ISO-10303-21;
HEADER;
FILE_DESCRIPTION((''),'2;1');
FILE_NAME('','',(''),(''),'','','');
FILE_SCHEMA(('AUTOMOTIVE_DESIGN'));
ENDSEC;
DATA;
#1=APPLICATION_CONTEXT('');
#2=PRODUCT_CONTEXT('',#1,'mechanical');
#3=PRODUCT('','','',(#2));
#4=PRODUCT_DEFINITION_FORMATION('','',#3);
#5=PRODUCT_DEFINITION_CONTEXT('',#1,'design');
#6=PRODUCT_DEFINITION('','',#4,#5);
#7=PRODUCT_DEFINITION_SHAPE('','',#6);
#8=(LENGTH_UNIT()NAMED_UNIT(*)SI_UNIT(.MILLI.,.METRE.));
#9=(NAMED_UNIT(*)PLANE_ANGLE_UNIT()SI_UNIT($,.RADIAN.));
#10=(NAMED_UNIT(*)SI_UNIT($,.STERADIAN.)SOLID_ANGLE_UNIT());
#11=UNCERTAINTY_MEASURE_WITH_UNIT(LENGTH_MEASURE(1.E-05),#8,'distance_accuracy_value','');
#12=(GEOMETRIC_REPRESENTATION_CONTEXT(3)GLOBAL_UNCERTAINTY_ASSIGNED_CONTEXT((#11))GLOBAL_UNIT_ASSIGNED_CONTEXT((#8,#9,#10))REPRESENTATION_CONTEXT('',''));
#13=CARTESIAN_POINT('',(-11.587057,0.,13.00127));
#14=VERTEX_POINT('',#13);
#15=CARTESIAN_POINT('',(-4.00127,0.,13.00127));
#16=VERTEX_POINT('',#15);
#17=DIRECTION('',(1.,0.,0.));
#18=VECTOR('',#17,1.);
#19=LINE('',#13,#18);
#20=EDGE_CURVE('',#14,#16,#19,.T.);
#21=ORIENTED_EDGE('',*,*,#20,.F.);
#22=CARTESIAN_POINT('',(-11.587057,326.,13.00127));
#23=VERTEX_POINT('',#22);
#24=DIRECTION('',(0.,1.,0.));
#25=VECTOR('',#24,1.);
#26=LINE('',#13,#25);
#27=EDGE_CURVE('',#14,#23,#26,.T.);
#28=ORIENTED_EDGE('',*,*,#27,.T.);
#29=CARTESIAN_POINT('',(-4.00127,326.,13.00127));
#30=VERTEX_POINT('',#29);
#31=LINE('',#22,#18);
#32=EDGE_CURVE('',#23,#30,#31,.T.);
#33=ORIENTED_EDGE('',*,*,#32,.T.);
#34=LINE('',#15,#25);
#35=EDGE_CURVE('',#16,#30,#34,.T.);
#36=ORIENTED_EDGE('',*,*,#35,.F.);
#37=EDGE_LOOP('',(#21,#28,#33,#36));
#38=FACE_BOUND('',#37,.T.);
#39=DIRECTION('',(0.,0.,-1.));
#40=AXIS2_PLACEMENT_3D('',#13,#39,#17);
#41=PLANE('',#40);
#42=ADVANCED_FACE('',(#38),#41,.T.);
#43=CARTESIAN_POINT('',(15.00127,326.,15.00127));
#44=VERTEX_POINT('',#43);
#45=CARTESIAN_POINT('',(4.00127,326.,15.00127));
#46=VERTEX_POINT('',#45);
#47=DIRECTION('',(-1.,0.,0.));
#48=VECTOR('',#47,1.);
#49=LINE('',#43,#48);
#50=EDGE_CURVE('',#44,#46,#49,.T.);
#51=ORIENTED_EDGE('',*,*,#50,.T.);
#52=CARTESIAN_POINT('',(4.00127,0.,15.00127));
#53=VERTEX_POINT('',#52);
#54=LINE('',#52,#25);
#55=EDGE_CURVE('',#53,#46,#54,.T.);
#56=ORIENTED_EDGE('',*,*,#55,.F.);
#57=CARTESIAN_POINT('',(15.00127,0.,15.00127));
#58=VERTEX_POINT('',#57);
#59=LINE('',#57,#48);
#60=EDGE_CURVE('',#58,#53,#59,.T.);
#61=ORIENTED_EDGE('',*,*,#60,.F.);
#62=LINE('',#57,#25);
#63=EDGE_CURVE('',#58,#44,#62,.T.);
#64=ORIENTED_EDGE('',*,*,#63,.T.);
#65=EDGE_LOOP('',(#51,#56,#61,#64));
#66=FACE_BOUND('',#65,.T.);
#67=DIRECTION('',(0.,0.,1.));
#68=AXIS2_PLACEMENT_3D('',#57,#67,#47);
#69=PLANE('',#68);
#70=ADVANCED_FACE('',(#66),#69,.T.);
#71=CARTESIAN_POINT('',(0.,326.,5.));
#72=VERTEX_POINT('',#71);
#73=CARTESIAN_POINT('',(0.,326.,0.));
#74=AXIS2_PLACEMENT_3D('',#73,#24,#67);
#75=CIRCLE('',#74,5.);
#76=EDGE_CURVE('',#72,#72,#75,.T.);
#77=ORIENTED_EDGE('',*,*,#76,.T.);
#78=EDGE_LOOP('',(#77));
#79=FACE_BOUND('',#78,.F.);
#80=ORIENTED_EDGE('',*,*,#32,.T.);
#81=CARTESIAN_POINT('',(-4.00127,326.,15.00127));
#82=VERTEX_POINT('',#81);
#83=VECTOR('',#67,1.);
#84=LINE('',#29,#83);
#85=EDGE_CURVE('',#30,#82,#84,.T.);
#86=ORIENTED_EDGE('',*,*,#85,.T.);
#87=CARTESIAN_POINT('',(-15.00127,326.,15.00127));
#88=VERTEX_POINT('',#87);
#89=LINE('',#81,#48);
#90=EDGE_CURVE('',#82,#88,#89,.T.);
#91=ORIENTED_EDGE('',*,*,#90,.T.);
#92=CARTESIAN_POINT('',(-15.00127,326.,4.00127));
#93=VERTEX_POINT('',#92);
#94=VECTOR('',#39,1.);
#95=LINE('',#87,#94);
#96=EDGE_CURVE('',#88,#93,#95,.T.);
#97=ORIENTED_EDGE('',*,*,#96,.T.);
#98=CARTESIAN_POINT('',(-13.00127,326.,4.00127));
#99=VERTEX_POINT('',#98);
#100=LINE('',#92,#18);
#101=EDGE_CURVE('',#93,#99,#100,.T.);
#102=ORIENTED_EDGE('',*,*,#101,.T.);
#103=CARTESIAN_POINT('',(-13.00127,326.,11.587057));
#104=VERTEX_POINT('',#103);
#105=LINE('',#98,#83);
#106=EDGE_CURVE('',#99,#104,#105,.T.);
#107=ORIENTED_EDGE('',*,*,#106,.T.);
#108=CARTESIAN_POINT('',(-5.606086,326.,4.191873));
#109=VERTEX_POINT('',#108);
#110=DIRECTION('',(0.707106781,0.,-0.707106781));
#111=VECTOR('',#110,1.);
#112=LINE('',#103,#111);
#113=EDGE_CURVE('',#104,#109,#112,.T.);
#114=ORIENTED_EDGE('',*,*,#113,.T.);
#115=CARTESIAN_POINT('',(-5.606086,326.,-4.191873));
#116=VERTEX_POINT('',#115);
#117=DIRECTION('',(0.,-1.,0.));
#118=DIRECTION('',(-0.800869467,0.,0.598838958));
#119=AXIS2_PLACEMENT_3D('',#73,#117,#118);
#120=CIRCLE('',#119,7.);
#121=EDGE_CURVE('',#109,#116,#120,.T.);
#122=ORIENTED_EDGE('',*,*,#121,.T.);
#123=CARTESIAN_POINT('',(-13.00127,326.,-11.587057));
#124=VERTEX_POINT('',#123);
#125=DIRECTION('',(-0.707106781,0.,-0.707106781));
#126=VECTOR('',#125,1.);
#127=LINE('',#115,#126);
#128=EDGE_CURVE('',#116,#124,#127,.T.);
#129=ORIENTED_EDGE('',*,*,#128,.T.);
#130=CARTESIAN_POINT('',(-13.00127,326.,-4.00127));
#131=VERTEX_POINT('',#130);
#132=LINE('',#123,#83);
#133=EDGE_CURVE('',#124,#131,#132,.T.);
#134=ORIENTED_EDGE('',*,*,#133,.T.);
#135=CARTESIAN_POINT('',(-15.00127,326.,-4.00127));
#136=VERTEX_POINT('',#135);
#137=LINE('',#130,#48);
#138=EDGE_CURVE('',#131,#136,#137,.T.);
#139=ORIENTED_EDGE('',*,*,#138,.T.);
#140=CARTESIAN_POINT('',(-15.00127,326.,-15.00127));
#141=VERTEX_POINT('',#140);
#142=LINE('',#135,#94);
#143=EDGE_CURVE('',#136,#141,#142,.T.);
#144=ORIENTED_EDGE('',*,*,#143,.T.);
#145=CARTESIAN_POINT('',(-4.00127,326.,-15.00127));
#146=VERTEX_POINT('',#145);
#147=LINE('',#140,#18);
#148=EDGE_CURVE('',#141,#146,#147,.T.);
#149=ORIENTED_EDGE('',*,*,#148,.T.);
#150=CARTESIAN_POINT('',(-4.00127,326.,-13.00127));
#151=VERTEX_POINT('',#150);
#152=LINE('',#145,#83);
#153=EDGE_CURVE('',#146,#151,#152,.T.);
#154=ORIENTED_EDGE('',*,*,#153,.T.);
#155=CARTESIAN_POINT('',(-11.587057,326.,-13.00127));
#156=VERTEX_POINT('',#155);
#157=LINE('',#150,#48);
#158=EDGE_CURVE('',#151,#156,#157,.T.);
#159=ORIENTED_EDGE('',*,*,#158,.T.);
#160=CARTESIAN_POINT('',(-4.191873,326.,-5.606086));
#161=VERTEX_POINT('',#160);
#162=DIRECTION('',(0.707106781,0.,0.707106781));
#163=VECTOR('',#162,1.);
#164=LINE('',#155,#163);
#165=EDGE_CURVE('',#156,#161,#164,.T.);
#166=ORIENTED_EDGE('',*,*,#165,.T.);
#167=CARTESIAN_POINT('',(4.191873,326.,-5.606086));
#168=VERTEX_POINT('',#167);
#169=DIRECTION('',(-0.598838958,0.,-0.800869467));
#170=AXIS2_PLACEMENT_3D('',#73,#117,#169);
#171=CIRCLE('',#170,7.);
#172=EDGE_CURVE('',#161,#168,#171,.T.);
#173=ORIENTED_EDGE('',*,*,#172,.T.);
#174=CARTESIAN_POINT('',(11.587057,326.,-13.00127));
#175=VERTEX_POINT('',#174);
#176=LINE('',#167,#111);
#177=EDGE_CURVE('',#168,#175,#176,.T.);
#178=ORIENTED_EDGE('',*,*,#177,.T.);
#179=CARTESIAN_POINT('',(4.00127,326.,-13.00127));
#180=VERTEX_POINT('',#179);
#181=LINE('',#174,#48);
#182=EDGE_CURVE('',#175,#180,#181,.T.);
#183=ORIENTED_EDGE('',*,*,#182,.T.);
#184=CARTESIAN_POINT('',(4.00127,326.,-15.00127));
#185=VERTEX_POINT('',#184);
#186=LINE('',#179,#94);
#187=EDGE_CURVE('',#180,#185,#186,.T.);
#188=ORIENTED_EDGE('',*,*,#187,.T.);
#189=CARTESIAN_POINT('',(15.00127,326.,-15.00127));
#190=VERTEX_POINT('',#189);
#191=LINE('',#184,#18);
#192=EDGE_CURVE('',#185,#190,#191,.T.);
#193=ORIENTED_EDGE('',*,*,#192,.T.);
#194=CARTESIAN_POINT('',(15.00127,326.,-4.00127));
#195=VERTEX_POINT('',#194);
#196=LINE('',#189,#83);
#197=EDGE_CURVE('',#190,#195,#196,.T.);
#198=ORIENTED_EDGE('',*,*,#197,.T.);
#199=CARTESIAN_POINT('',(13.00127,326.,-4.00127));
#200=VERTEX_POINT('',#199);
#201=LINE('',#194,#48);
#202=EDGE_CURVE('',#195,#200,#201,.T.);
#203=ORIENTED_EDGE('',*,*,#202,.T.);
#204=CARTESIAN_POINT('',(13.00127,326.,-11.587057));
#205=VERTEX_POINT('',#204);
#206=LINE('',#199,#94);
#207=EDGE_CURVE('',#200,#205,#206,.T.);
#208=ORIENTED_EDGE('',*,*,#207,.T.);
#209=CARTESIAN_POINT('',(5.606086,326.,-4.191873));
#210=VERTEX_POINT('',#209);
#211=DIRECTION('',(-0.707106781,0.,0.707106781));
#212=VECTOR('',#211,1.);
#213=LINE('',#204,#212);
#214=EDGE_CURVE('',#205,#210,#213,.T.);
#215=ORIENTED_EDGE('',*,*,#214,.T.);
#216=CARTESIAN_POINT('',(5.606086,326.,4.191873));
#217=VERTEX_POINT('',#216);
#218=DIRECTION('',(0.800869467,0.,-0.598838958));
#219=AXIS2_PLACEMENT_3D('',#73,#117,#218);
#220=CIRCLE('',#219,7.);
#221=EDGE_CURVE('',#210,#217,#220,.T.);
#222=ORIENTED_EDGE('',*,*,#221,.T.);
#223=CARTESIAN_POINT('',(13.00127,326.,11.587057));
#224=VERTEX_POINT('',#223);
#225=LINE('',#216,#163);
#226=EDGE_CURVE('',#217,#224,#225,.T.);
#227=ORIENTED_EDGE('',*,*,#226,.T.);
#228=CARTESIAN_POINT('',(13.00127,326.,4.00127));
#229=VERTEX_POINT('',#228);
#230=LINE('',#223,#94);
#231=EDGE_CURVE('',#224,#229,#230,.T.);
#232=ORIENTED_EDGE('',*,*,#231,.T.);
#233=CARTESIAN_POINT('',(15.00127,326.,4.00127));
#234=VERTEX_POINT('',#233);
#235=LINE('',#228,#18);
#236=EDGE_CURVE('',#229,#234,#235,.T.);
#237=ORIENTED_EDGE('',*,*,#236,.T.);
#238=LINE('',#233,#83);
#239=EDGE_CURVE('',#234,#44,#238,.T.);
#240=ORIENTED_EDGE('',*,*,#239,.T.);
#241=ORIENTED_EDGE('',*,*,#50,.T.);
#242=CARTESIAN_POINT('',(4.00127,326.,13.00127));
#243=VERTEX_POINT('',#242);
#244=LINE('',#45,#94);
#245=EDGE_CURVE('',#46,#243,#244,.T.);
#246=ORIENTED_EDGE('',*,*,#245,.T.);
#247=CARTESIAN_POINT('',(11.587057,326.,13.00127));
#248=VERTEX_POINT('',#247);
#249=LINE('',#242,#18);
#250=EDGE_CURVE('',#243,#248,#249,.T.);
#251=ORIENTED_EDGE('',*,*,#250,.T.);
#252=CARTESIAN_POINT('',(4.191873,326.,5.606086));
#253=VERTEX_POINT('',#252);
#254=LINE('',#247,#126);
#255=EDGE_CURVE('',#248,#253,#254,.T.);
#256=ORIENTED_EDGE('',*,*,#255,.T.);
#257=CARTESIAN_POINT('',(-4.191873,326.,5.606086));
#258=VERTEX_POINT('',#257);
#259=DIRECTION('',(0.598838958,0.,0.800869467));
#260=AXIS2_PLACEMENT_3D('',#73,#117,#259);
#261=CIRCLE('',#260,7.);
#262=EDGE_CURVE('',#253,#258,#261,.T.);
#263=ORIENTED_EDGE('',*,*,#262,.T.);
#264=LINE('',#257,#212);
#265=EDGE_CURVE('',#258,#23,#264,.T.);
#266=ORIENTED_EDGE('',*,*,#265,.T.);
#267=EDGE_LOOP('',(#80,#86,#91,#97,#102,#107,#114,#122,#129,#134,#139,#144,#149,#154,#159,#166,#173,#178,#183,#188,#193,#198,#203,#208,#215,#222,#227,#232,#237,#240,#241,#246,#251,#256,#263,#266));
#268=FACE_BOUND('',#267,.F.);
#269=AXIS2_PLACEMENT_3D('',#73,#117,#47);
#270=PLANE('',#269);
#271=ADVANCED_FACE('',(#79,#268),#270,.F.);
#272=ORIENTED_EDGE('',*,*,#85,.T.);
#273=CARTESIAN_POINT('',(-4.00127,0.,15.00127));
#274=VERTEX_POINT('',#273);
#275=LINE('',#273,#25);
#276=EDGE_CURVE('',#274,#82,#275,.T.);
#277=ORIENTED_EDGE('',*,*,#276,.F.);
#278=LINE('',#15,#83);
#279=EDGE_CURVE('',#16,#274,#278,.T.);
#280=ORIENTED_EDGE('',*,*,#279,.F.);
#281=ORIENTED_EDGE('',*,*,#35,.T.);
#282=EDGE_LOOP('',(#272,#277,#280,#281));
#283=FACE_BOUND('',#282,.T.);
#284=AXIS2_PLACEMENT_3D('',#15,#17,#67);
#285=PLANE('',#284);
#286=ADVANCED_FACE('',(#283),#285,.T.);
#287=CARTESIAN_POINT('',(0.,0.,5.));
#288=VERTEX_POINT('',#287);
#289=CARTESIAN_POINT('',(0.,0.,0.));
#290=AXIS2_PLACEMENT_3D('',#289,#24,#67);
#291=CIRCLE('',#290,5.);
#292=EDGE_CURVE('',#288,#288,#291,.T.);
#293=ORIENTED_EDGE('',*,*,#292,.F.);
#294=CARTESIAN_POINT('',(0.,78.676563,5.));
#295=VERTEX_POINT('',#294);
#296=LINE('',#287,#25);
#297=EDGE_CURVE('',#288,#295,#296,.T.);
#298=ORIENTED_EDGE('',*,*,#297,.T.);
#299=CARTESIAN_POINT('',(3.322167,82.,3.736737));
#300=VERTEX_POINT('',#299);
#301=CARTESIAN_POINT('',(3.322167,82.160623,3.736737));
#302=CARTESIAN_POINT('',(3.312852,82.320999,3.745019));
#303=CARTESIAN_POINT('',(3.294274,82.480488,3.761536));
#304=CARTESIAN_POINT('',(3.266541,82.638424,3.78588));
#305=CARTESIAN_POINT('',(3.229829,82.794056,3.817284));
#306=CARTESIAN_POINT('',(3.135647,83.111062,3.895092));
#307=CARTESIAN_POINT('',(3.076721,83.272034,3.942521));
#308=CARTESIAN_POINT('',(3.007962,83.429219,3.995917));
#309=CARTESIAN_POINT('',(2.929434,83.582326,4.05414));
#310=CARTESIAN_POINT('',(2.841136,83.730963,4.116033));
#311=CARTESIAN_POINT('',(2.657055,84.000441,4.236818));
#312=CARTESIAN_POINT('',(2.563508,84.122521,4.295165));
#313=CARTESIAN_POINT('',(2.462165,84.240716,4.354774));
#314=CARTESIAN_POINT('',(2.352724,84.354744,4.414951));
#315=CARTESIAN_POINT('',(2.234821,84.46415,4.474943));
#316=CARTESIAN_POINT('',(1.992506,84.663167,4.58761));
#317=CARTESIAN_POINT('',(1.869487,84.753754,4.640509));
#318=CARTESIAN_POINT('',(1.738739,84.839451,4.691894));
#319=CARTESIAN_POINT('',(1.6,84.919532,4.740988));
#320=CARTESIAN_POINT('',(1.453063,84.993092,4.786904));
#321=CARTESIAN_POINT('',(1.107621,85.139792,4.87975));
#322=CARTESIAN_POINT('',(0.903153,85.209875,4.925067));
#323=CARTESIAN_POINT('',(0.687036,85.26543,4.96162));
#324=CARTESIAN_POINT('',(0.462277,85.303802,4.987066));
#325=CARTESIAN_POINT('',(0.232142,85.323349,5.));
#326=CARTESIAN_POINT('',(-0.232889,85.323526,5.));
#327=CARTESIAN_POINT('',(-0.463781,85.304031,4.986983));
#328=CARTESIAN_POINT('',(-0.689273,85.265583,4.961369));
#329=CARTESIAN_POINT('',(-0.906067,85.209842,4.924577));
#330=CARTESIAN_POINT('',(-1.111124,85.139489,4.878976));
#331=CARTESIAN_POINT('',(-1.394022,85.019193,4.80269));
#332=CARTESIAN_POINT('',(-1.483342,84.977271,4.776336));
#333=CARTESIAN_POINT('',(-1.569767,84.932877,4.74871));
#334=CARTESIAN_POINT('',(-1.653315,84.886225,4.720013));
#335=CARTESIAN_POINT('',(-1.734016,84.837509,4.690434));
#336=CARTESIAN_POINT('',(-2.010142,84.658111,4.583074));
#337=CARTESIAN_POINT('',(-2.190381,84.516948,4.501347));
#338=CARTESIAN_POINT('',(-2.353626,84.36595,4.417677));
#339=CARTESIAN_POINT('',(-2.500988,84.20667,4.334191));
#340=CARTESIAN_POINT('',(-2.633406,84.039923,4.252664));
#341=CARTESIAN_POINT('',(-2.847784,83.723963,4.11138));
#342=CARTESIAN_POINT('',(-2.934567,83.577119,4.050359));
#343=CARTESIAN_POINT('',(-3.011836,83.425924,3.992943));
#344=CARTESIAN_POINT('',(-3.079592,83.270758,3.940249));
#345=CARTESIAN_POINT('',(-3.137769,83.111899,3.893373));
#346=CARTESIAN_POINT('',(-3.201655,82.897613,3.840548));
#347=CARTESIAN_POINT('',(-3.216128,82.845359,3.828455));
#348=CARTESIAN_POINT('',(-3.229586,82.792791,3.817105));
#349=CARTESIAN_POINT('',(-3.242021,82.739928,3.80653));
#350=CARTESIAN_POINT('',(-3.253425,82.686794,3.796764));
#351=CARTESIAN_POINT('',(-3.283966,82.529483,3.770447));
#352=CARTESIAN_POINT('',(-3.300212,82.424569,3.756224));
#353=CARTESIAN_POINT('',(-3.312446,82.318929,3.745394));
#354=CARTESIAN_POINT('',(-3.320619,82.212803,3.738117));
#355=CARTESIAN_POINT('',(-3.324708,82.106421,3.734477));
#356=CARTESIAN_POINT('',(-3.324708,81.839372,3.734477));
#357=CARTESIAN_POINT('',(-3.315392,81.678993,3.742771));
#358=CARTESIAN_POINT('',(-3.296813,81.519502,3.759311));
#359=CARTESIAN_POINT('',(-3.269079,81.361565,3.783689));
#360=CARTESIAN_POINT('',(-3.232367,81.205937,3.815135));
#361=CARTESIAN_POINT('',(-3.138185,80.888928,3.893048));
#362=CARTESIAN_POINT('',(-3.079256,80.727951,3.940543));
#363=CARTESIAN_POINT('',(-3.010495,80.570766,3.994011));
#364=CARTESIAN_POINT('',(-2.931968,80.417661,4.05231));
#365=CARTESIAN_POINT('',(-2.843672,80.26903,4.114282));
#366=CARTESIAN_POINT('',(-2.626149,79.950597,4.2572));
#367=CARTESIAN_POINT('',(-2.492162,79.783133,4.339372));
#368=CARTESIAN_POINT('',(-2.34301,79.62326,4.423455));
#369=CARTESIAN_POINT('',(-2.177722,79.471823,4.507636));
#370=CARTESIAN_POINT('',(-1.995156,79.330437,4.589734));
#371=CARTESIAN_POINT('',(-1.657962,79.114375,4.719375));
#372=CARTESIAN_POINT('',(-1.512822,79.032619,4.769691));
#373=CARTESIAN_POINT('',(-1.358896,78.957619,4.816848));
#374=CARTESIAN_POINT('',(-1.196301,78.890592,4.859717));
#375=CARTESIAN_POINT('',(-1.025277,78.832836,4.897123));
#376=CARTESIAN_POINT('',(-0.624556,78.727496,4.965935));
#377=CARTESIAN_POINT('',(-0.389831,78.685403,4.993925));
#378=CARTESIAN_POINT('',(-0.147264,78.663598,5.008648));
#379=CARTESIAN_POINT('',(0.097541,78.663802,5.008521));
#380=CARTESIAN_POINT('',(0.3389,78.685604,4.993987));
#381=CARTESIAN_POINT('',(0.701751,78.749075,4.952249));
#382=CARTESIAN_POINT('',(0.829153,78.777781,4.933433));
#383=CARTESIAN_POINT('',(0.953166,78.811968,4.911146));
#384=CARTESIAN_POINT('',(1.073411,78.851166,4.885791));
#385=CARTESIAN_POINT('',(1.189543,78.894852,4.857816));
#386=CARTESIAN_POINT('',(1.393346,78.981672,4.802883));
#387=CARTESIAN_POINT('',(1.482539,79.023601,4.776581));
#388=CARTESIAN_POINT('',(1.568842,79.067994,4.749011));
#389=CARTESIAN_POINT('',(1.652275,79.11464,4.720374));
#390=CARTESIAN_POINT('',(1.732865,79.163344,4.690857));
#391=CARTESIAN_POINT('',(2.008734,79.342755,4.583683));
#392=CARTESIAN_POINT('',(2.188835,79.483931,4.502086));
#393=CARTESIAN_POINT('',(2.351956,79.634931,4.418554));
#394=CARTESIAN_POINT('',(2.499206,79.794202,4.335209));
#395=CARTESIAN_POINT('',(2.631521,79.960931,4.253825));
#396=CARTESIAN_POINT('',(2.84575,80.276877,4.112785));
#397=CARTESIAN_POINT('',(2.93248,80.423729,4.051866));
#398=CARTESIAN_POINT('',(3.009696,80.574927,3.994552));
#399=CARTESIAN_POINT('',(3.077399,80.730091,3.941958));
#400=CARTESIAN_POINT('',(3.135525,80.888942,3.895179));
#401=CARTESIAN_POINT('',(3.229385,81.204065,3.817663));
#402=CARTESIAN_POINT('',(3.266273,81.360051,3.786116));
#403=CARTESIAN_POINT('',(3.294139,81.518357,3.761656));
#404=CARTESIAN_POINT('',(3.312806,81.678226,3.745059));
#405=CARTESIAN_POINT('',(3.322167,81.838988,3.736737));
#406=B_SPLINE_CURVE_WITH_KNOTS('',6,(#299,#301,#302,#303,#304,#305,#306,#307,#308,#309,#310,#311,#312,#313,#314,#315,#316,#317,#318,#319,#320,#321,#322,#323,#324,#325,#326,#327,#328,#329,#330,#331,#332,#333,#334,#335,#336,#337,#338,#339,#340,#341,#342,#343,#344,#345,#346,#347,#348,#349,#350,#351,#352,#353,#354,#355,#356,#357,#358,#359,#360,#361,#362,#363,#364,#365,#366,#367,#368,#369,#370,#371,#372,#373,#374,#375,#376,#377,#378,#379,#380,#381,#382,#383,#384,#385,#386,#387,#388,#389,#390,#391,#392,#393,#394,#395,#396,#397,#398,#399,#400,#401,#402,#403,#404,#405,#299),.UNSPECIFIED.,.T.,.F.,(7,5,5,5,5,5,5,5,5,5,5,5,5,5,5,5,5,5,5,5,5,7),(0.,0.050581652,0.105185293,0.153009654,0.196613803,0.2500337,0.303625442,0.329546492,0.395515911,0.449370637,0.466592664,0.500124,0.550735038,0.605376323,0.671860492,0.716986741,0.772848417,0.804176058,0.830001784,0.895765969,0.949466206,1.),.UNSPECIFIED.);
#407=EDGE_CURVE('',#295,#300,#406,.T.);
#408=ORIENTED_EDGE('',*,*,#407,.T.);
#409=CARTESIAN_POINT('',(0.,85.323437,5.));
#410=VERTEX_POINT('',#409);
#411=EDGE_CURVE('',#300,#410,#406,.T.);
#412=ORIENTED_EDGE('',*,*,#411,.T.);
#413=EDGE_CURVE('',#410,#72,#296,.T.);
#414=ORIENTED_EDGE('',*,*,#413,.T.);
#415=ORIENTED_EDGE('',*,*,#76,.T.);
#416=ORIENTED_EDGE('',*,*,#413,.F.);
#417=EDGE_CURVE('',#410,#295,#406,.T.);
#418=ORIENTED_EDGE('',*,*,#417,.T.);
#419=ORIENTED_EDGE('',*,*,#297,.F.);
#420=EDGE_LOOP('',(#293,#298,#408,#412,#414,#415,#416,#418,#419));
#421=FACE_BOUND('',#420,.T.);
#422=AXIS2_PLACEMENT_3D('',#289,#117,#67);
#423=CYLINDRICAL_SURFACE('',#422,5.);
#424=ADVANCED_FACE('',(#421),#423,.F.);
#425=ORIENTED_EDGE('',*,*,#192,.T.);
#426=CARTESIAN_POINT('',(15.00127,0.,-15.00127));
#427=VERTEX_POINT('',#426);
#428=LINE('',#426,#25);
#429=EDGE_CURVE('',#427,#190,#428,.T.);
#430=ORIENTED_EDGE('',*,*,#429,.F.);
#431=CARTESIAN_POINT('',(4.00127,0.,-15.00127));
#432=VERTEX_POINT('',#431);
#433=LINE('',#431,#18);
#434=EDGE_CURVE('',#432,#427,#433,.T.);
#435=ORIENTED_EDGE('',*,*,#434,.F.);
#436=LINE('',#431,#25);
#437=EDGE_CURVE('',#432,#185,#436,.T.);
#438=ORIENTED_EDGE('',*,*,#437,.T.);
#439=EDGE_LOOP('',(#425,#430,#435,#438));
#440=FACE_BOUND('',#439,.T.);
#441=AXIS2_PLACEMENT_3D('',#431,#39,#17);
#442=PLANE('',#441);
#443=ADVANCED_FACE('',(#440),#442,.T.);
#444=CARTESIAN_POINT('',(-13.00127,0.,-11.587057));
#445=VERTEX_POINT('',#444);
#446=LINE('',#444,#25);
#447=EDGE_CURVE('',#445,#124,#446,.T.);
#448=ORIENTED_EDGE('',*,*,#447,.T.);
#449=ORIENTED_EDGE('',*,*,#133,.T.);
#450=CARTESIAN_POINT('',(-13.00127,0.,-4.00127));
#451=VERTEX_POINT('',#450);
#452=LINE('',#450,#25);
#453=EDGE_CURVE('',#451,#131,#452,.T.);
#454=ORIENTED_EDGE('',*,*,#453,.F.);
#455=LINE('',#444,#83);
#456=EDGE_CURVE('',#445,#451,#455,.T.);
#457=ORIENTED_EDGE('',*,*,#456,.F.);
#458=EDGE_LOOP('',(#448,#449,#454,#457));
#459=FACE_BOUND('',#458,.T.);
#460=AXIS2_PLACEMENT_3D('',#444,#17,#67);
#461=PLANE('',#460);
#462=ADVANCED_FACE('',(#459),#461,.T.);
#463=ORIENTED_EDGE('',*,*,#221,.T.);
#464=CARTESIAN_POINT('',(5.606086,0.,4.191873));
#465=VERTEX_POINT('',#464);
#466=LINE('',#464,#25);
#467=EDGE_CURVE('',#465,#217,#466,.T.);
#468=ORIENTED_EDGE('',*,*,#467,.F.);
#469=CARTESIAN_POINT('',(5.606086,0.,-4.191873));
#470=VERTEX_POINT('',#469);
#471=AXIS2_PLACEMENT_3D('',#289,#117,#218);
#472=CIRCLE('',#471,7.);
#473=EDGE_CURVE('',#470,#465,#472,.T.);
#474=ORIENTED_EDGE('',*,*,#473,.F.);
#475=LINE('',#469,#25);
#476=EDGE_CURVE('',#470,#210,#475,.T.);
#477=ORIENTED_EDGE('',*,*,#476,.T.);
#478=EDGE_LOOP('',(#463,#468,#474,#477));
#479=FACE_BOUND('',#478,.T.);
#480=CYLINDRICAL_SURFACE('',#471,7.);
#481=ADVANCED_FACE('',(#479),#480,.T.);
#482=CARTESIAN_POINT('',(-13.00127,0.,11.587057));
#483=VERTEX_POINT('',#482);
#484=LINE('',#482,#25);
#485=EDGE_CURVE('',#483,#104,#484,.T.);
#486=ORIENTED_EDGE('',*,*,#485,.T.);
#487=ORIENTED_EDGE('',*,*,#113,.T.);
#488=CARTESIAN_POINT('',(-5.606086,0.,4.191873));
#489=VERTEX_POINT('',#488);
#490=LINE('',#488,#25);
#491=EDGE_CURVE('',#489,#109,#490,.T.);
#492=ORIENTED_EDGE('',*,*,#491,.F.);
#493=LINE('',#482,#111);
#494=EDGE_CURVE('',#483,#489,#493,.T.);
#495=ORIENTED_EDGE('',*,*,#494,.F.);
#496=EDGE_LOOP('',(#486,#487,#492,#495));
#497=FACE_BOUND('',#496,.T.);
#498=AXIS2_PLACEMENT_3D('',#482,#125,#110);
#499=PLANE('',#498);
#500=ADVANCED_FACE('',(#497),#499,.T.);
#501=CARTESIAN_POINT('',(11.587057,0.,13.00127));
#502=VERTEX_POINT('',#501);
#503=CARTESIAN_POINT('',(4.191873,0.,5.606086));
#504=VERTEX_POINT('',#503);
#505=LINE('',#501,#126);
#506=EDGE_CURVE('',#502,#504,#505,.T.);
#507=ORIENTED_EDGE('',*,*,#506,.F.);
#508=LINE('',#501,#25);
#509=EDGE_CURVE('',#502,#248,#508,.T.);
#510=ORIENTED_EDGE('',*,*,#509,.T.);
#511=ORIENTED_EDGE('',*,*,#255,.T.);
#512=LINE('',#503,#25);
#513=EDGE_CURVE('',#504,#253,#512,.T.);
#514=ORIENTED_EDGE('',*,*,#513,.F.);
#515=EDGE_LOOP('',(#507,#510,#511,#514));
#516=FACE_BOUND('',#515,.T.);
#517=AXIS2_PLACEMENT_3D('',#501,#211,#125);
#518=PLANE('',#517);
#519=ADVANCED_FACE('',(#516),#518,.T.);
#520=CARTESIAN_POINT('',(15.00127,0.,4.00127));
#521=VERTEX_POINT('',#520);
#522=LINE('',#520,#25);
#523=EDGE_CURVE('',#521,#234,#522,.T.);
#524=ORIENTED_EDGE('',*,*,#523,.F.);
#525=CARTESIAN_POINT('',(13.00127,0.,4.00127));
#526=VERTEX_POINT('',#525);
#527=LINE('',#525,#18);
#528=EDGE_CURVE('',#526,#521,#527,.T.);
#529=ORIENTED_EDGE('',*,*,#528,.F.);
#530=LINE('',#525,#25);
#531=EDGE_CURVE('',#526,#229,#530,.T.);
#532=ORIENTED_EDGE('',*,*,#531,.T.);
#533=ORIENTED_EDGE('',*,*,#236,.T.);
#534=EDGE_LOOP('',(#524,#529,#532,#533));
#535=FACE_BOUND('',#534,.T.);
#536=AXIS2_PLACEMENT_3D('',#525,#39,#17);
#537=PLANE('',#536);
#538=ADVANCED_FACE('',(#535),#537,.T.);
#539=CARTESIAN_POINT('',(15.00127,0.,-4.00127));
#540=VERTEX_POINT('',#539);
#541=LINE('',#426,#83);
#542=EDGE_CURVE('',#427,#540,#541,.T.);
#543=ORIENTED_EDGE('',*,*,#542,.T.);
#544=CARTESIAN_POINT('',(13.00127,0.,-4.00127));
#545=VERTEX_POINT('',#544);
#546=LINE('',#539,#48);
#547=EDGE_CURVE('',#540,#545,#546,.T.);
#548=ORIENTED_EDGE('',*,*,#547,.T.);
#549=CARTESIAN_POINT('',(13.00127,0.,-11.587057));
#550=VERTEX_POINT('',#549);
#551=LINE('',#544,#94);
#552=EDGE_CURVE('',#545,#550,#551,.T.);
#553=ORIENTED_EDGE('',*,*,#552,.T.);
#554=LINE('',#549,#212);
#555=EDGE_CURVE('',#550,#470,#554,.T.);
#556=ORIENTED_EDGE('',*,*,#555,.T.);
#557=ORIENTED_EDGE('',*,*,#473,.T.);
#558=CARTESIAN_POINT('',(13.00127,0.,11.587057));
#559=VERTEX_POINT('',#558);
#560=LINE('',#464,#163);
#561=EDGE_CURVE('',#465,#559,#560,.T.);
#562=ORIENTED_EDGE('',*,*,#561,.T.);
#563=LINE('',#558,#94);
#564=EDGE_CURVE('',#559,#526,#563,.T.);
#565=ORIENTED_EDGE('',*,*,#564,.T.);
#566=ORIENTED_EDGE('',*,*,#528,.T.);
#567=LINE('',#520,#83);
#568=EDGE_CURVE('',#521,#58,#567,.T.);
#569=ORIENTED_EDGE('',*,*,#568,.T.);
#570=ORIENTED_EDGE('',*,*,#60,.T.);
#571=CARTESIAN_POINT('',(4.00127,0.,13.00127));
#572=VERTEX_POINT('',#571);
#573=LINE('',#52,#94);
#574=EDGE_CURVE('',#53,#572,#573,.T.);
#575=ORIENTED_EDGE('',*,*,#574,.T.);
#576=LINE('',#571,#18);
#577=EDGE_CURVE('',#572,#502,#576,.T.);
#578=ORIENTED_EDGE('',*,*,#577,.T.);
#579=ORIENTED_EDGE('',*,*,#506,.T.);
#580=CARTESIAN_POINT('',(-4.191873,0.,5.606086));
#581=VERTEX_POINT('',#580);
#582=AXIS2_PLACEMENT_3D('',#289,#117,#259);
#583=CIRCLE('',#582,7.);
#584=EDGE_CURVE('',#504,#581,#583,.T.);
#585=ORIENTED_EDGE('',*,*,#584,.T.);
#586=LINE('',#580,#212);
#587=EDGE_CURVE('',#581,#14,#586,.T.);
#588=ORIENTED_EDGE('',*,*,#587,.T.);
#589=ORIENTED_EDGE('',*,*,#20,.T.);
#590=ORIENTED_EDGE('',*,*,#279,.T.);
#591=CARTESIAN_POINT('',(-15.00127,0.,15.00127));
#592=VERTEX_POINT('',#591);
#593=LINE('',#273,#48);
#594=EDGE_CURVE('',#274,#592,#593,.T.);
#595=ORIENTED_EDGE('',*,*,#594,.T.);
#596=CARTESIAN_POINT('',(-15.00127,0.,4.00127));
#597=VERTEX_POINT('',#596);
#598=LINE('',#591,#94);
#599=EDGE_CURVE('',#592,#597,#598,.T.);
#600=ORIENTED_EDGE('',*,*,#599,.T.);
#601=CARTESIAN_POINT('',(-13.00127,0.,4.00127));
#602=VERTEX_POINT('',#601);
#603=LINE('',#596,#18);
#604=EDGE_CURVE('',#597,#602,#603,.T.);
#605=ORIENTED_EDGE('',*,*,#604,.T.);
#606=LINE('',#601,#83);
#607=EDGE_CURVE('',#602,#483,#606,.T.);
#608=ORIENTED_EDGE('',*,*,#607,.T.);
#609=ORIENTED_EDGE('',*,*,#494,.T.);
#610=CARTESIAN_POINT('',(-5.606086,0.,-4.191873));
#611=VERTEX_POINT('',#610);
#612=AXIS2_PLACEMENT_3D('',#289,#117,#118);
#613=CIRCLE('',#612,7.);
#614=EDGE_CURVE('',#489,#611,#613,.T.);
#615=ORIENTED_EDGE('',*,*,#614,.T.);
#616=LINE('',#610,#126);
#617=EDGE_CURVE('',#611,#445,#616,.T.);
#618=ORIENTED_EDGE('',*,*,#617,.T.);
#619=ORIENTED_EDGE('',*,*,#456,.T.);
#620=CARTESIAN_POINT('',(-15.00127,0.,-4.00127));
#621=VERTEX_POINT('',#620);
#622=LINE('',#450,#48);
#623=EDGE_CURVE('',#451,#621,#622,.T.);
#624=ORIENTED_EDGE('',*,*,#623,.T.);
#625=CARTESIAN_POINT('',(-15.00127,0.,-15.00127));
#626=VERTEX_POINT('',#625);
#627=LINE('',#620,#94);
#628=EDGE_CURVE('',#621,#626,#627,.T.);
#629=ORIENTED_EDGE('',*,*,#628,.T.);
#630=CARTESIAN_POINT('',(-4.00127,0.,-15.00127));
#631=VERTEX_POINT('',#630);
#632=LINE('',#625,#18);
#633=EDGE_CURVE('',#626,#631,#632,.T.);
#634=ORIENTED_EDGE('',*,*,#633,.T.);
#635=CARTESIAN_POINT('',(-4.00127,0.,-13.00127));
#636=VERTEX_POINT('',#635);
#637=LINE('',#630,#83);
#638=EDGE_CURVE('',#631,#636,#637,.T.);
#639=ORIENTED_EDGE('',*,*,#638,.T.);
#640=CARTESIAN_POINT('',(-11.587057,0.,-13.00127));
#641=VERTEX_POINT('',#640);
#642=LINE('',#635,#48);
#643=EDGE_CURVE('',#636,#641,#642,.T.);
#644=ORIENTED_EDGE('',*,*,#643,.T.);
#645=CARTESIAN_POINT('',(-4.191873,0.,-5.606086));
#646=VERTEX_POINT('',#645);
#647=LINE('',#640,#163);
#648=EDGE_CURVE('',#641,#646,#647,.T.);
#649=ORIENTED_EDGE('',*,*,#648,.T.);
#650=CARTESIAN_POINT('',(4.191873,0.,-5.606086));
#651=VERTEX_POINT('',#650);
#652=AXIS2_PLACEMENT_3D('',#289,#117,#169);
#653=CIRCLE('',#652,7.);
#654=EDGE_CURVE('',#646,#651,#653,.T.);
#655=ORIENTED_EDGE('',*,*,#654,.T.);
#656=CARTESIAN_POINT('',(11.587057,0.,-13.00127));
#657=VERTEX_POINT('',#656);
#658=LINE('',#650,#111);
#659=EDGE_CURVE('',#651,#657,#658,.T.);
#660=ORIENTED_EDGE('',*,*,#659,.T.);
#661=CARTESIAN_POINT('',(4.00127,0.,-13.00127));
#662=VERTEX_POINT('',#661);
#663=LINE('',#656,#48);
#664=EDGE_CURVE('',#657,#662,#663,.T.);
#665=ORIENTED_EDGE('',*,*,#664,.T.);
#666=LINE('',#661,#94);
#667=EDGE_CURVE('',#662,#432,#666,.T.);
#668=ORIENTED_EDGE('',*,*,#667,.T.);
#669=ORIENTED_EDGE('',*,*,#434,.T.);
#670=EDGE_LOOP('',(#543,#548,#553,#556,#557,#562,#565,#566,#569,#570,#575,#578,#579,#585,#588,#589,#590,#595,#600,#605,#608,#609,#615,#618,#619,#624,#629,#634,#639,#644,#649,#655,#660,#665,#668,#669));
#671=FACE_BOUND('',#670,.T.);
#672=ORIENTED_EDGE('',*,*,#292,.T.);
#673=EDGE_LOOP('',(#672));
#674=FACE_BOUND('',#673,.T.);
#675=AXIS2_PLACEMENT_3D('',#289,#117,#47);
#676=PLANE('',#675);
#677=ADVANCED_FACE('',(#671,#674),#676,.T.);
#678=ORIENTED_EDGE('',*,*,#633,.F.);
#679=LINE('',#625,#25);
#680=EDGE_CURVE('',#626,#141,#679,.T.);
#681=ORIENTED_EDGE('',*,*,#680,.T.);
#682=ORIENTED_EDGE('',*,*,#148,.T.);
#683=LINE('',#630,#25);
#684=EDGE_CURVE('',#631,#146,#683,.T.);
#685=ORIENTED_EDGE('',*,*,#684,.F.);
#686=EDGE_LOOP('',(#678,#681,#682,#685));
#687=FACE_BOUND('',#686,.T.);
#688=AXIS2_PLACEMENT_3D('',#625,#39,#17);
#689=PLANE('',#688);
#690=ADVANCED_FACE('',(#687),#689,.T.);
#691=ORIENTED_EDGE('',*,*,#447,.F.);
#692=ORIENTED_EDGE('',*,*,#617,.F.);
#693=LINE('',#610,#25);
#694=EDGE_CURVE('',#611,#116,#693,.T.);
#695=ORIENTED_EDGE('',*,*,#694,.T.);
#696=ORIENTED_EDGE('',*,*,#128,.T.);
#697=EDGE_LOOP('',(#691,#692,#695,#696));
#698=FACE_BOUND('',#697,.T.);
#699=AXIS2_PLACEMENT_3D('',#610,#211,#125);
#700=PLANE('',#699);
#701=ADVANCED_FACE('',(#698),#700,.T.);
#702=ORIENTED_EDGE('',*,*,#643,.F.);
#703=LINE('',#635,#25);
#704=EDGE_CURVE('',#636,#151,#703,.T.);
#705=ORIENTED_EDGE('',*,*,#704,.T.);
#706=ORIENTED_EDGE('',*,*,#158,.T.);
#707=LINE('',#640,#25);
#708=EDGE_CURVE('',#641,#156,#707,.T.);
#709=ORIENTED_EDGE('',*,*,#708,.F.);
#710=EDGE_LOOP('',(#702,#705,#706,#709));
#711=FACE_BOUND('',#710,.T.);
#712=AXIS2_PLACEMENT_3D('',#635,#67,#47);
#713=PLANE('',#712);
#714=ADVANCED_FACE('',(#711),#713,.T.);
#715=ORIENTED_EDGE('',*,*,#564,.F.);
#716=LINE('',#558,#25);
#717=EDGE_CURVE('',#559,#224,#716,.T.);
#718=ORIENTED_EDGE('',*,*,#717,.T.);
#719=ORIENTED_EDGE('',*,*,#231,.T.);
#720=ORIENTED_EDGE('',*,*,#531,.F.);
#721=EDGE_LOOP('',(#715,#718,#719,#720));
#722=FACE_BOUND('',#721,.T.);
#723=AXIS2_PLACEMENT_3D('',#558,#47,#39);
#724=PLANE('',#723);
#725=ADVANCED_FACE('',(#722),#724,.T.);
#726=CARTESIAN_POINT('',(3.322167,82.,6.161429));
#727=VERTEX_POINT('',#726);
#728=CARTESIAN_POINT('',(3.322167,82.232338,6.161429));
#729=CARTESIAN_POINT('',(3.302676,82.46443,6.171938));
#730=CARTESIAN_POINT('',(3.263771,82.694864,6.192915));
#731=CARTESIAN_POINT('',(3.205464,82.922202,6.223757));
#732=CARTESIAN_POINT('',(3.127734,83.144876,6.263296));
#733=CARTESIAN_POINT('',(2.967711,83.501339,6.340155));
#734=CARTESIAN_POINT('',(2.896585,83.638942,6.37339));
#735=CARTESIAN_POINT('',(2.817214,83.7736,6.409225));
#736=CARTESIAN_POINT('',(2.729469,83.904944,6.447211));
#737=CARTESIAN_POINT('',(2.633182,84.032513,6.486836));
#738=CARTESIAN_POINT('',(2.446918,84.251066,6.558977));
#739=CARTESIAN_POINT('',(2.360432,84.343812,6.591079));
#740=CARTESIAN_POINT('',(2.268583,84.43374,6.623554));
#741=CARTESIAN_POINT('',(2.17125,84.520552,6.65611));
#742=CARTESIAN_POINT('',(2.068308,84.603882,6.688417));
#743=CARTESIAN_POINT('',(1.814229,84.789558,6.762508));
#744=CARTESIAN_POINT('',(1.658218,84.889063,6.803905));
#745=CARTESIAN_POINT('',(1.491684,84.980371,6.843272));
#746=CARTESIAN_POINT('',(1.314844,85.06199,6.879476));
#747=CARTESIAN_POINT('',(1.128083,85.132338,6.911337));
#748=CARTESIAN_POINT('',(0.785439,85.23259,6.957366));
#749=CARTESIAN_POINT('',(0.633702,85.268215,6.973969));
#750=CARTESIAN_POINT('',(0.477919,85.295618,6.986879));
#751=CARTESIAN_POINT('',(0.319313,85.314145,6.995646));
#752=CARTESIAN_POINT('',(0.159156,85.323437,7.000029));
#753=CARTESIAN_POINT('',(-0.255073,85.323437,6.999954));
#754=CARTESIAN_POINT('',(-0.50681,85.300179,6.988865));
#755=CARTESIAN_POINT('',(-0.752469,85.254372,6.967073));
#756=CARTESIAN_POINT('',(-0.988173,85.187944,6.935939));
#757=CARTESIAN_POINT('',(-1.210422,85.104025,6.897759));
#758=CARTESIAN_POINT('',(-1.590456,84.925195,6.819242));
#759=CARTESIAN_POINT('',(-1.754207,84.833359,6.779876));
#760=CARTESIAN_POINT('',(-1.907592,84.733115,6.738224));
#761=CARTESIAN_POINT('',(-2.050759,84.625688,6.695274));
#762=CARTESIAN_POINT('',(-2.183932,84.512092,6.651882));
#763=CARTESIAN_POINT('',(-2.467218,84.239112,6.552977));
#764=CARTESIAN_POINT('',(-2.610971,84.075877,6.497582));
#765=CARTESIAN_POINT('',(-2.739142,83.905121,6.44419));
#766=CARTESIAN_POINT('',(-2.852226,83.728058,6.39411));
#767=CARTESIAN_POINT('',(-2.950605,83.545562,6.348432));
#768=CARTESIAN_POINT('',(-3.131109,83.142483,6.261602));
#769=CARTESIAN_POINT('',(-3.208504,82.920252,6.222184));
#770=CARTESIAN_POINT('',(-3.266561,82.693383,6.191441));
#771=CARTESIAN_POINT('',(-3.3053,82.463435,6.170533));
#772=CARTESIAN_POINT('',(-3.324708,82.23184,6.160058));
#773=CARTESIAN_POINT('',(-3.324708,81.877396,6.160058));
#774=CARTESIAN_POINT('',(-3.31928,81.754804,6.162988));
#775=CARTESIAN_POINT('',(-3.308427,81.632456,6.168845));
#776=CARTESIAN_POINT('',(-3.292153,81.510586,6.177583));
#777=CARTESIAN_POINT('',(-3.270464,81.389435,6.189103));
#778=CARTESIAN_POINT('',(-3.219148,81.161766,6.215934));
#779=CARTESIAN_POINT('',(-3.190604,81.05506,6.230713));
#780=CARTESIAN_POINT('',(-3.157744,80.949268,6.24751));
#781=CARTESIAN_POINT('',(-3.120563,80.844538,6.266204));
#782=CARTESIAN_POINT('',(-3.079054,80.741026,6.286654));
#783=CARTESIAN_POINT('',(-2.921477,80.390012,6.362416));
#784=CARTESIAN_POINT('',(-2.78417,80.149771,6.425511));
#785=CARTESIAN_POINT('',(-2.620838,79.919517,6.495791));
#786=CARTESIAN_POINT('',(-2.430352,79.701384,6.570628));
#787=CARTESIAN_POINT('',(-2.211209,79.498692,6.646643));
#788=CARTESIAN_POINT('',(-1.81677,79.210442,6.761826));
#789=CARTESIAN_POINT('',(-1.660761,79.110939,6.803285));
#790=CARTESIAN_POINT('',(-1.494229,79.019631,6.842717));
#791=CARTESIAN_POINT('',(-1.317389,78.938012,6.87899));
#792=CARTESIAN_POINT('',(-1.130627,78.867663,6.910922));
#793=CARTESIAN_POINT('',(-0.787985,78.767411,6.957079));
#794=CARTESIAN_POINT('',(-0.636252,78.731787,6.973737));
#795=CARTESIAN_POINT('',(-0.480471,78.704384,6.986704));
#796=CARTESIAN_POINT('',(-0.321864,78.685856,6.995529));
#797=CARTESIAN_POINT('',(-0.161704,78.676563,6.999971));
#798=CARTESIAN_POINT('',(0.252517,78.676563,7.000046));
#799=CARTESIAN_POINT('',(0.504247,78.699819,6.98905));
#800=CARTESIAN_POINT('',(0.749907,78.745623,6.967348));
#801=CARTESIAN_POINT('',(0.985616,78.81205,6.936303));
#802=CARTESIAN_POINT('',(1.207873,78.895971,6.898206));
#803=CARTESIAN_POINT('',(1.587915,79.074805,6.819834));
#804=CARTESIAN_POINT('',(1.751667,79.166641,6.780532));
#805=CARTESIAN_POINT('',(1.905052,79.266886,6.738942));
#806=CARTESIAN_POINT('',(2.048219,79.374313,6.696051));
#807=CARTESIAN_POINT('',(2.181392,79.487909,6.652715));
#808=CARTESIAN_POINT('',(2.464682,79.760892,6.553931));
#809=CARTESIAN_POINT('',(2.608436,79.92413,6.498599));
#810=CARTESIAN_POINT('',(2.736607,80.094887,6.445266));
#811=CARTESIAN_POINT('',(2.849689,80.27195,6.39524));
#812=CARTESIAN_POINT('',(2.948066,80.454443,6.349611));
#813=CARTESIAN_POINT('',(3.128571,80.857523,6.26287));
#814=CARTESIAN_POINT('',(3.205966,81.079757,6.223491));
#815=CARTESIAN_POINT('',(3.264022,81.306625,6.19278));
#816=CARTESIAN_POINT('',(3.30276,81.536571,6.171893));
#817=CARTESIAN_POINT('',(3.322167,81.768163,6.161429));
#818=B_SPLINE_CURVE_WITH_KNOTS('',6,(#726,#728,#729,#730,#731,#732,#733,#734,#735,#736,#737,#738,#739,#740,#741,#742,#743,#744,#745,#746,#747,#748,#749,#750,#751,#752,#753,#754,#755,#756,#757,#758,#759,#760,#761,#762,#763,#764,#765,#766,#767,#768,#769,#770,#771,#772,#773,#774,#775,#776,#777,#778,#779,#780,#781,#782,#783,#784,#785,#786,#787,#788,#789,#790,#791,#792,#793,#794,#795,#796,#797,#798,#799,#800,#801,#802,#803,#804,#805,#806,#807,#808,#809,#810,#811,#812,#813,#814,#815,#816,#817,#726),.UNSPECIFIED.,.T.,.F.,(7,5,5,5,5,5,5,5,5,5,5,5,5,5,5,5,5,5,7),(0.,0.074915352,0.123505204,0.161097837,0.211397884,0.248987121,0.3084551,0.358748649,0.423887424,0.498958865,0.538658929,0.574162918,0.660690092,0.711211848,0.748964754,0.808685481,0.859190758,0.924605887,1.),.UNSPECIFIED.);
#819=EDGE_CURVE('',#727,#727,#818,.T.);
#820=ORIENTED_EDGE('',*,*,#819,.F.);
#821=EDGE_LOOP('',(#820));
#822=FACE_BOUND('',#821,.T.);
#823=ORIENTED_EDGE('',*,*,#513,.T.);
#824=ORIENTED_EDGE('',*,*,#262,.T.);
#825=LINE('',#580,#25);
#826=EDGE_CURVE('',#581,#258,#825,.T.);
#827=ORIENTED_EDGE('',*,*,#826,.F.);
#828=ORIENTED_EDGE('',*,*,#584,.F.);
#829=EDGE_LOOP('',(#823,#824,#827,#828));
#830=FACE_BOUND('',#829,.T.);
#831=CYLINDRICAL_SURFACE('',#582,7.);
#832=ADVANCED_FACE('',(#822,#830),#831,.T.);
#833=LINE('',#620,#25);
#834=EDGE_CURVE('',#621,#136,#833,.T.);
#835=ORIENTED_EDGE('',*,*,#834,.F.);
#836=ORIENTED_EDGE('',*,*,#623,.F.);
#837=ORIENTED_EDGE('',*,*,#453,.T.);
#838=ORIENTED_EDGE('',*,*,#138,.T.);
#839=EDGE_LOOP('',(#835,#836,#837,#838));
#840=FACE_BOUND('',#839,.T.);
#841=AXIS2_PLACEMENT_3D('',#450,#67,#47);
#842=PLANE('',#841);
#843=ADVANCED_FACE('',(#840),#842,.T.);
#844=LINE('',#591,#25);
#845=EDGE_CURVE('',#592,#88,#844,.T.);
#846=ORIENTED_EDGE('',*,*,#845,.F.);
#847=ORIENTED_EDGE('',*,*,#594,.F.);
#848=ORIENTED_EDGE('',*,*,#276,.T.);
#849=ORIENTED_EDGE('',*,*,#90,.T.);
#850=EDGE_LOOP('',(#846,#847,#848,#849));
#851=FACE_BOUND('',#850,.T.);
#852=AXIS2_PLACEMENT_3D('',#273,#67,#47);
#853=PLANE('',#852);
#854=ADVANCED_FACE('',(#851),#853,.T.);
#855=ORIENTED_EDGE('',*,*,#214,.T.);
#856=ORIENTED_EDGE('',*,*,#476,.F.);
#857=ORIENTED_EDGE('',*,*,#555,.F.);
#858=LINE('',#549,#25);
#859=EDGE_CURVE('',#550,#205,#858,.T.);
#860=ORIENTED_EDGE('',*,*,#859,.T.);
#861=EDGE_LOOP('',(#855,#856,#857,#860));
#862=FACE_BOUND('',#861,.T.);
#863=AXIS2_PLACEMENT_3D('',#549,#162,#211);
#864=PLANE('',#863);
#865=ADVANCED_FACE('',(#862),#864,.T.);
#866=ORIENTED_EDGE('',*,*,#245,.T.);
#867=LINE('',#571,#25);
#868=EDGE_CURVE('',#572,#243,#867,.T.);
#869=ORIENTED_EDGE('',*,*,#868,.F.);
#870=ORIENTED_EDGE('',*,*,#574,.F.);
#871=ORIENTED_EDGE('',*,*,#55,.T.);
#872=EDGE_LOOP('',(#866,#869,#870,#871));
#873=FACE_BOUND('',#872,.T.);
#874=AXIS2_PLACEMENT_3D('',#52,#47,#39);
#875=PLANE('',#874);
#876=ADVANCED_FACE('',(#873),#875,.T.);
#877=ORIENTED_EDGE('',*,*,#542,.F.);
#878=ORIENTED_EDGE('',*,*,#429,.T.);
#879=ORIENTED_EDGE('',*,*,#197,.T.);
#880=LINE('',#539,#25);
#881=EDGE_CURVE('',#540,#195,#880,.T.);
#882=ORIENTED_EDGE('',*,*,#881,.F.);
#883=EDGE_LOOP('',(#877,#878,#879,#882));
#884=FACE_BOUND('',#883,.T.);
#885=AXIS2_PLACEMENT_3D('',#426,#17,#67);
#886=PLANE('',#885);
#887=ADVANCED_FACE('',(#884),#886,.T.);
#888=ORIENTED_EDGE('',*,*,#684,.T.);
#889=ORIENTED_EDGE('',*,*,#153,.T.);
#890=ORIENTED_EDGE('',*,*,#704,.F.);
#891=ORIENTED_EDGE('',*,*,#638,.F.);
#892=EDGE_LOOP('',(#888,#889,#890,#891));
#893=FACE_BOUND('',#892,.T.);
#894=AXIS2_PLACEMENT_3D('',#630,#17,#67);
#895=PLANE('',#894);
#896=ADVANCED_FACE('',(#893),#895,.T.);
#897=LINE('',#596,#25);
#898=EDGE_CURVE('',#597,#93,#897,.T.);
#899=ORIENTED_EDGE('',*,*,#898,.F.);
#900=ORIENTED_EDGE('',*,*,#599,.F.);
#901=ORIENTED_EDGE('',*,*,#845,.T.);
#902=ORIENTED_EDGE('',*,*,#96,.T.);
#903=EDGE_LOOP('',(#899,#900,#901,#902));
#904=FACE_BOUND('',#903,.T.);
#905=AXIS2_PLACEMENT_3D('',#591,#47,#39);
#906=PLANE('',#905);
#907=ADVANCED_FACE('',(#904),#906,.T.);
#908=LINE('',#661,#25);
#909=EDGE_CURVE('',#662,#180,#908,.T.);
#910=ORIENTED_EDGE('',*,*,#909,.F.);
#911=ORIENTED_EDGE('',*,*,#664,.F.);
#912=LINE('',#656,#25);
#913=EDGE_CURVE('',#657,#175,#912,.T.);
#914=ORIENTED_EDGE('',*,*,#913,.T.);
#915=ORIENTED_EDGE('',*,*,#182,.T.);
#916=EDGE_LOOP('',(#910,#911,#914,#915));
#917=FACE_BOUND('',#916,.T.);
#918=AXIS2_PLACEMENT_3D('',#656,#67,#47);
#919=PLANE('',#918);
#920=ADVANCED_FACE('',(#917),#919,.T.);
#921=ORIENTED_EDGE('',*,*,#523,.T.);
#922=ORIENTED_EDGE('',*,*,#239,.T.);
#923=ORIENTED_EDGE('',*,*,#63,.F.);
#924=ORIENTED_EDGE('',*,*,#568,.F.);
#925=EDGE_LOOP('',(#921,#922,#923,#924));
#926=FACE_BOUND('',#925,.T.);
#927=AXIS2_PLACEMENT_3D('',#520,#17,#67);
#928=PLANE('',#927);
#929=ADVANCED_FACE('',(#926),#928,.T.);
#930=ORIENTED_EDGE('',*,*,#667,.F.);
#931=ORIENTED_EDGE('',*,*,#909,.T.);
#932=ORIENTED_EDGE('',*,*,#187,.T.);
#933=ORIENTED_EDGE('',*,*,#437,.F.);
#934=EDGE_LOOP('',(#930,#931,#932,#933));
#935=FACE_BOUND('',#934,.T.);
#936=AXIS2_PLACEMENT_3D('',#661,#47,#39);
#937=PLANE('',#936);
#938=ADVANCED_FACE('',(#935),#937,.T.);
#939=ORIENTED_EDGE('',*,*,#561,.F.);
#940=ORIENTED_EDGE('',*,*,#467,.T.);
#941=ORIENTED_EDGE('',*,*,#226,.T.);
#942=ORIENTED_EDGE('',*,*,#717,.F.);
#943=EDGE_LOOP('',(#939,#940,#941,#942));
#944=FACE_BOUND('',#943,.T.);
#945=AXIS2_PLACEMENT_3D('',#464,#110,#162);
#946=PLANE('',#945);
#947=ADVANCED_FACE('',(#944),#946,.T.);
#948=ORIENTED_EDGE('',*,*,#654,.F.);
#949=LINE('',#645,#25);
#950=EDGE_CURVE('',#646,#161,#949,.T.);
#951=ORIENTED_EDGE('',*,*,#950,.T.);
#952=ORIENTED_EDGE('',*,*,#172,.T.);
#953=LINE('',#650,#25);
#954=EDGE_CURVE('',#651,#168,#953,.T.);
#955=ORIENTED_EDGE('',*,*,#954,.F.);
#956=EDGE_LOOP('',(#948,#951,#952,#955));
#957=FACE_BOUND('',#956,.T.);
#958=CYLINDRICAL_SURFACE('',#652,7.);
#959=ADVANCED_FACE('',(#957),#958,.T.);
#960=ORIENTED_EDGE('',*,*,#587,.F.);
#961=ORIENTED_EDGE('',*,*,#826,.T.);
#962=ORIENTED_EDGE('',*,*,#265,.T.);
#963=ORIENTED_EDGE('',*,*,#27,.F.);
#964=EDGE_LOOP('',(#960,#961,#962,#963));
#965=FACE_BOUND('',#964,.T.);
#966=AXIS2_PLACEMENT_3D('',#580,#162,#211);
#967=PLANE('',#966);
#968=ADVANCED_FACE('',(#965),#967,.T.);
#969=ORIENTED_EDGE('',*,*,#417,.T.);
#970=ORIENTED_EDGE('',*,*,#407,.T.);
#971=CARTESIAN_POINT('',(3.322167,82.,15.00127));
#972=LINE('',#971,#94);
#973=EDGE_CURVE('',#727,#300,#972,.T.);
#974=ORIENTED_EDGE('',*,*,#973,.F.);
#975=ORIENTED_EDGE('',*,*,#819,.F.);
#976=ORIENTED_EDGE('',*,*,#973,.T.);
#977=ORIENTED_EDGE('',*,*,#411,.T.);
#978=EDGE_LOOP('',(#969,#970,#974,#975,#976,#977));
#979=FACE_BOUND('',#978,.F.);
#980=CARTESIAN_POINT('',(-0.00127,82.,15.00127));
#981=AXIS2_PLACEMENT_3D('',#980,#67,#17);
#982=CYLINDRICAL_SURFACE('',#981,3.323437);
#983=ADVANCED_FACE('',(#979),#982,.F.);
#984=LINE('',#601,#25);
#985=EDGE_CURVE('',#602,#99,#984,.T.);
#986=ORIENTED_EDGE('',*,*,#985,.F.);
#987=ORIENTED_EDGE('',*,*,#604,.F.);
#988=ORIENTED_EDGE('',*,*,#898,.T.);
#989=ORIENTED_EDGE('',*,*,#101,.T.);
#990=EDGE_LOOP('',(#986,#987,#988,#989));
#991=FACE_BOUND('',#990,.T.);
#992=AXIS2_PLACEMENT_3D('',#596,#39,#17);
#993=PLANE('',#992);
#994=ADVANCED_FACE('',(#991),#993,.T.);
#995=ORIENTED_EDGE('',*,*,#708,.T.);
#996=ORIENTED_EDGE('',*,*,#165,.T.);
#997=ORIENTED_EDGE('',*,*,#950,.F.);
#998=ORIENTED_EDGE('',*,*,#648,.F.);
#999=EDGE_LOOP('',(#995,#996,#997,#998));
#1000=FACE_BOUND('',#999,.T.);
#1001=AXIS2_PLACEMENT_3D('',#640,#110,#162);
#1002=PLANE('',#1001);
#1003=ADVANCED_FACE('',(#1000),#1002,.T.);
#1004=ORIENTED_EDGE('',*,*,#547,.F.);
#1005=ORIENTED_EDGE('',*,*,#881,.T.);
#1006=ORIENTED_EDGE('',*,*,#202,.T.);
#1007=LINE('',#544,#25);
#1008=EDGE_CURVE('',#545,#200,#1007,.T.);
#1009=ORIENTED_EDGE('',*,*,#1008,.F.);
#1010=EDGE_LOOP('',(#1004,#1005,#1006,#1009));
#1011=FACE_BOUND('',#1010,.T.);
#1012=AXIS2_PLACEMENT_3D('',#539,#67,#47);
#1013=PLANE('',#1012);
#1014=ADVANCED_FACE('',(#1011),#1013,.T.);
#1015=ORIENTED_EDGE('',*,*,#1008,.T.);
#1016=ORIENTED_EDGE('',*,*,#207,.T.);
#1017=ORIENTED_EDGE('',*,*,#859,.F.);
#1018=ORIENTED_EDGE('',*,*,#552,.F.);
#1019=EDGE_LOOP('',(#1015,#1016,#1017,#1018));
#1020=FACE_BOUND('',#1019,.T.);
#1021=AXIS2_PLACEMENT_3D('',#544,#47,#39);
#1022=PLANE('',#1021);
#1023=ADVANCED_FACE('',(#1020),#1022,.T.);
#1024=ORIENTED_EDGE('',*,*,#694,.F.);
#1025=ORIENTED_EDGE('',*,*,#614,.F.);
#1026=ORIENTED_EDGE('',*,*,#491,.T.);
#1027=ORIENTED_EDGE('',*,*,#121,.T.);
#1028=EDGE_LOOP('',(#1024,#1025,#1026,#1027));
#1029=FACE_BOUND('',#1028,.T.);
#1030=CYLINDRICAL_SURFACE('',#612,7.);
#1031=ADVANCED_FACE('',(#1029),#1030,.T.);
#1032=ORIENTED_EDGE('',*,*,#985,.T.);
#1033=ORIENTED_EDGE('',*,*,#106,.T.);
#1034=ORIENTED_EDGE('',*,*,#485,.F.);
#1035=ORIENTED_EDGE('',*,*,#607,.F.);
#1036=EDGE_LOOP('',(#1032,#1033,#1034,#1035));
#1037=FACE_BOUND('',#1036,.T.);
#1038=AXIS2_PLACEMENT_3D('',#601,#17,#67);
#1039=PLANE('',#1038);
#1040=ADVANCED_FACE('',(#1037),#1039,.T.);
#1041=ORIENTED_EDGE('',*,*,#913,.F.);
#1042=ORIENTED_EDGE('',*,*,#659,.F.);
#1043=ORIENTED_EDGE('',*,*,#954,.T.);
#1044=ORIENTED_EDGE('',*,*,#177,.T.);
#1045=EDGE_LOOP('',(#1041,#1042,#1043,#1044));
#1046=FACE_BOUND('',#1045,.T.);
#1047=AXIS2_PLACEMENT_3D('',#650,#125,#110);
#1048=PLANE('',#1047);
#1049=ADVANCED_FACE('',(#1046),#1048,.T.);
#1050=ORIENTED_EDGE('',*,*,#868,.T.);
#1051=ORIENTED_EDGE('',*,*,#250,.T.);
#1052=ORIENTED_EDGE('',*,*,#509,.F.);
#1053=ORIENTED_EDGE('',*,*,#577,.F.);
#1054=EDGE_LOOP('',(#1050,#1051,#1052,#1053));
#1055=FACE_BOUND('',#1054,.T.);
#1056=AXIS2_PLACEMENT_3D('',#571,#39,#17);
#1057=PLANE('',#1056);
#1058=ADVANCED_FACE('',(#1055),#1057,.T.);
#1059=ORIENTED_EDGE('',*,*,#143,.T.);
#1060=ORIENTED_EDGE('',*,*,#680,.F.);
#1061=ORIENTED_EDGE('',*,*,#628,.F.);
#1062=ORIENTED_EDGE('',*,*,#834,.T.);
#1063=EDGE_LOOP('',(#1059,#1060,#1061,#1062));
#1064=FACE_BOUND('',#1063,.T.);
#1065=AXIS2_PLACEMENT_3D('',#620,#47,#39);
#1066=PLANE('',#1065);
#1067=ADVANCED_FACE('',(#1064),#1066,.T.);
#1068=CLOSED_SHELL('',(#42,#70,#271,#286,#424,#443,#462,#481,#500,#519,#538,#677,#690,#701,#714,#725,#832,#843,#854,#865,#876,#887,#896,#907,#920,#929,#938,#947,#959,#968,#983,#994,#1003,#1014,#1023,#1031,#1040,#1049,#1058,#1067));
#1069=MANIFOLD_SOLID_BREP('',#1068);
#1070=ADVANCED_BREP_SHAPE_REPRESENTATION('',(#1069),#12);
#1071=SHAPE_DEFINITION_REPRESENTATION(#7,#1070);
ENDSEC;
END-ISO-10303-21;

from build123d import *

# Parameters (mm, degrees)
SKETCH1_R               = 5
BOSS_EXTRUDE1_DEPTH     = 326
CUT_EXTRUDE1_REACH      = 329.721
CUT_EXTRUDE1_END_RADIUS = 5
SKETCH2_R               = 3.3234375


with BuildPart() as part:
    # Sketch1 → Boss-Extrude1 (new body)
    with BuildSketch(Plane(origin=(0, 0, 0), x_dir=(1, 0, 0), z_dir=(0, 1, 0))):
        with BuildLine():
            Line((4.191872704, 5.606086267), (11.5870568, 13.001270363))
            Line((11.5870568, 13.001270363), (4.001270363, 13.001270363))
            Line((4.001270363, 13.001270363), (4.001270363, 15.001270363))
            Line((4.001270363, 15.001270363), (15.001270363, 15.001270363))
            Line((15.001270363, 15.001270363), (15.001270363, 4.001270363))
            Line((15.001270363, 4.001270363), (13.001270363, 4.001270363))
            Line((13.001270363, 4.001270363), (13.001270363, 11.5870568))
            Line((13.001270363, 11.5870568), (5.606086267, 4.191872704))
            ThreePointArc((5.606086267, 4.191872704), (7, 0), (5.606086267, -4.191872704))
            Line((5.606086267, -4.191872704), (13.001270363, -11.5870568))
            Line((13.001270363, -11.5870568), (13.001270363, -4.001270363))
            Line((13.001270363, -4.001270363), (15.001270363, -4.001270363))
            Line((15.001270363, -4.001270363), (15.001270363, -15.001270363))
            Line((15.001270363, -15.001270363), (4.001270363, -15.001270363))
            Line((4.001270363, -15.001270363), (4.001270363, -13.001270363))
            Line((4.001270363, -13.001270363), (11.5870568, -13.001270363))
            Line((11.5870568, -13.001270363), (4.191872704, -5.606086267))
            ThreePointArc((4.191872704, -5.606086267), (0, -7), (-4.191872704, -5.606086267))
            Line((-4.191872704, -5.606086267), (-11.5870568, -13.001270363))
            Line((-11.5870568, -13.001270363), (-4.001270363, -13.001270363))
            Line((-4.001270363, -13.001270363), (-4.001270363, -15.001270363))
            Line((-4.001270363, -15.001270363), (-15.001270363, -15.001270363))
            Line((-15.001270363, -15.001270363), (-15.001270363, -4.001270363))
            Line((-15.001270363, -4.001270363), (-13.001270363, -4.001270363))
            Line((-13.001270363, -4.001270363), (-13.001270363, -11.5870568))
            Line((-13.001270363, -11.5870568), (-5.606086267, -4.191872704))
            ThreePointArc((-5.606086267, -4.191872704), (-7, 0), (-5.606086267, 4.191872704))
            Line((-5.606086267, 4.191872704), (-13.001270363, 11.5870568))
            Line((-13.001270363, 11.5870568), (-13.001270363, 4.001270363))
            Line((-13.001270363, 4.001270363), (-15.001270363, 4.001270363))
            Line((-15.001270363, 4.001270363), (-15.001270363, 15.001270363))
            Line((-15.001270363, 15.001270363), (-4.001270363, 15.001270363))
            Line((-4.001270363, 15.001270363), (-4.001270363, 13.001270363))
            Line((-4.001270363, 13.001270363), (-11.5870568, 13.001270363))
            Line((-11.5870568, 13.001270363), (-4.191872704, 5.606086267))
            ThreePointArc((-4.191872704, 5.606086267), (0, 7), (4.191872704, 5.606086267))
        make_face()
        with Locations(Location((0, 0, 0), (0, 0, 270))):
            Circle(SKETCH1_R, mode=Mode.SUBTRACT)
    extrude(amount=BOSS_EXTRUDE1_DEPTH)

    # Cut-Extrude1: up to this cylinder (the profile starts outside it)
    cut_extrude1_end = Plane(origin=(0, 82, 0), z_dir=(0, -1, 0)) * Cylinder(CUT_EXTRUDE1_END_RADIUS, 670.442, mode=Mode.PRIVATE)
    # Sketch2 → Cut-Extrude1 (cut, up to the surface)
    with BuildSketch(Plane.XY.offset(15.001270363), mode=Mode.PRIVATE) as cut_extrude1_sk1:
        with Locations((-0.001270363, 82)):
            Circle(SKETCH2_R)
    cut_extrude1_tool1 = extrude(cut_extrude1_sk1.sketch, amount=-CUT_EXTRUDE1_REACH, mode=Mode.PRIVATE) - cut_extrude1_end
    add(cut_extrude1_tool1.solids().sort_by_distance((-0.00127, 82, 15.00127))[0], mode=Mode.SUBTRACT)


solid = part.part
